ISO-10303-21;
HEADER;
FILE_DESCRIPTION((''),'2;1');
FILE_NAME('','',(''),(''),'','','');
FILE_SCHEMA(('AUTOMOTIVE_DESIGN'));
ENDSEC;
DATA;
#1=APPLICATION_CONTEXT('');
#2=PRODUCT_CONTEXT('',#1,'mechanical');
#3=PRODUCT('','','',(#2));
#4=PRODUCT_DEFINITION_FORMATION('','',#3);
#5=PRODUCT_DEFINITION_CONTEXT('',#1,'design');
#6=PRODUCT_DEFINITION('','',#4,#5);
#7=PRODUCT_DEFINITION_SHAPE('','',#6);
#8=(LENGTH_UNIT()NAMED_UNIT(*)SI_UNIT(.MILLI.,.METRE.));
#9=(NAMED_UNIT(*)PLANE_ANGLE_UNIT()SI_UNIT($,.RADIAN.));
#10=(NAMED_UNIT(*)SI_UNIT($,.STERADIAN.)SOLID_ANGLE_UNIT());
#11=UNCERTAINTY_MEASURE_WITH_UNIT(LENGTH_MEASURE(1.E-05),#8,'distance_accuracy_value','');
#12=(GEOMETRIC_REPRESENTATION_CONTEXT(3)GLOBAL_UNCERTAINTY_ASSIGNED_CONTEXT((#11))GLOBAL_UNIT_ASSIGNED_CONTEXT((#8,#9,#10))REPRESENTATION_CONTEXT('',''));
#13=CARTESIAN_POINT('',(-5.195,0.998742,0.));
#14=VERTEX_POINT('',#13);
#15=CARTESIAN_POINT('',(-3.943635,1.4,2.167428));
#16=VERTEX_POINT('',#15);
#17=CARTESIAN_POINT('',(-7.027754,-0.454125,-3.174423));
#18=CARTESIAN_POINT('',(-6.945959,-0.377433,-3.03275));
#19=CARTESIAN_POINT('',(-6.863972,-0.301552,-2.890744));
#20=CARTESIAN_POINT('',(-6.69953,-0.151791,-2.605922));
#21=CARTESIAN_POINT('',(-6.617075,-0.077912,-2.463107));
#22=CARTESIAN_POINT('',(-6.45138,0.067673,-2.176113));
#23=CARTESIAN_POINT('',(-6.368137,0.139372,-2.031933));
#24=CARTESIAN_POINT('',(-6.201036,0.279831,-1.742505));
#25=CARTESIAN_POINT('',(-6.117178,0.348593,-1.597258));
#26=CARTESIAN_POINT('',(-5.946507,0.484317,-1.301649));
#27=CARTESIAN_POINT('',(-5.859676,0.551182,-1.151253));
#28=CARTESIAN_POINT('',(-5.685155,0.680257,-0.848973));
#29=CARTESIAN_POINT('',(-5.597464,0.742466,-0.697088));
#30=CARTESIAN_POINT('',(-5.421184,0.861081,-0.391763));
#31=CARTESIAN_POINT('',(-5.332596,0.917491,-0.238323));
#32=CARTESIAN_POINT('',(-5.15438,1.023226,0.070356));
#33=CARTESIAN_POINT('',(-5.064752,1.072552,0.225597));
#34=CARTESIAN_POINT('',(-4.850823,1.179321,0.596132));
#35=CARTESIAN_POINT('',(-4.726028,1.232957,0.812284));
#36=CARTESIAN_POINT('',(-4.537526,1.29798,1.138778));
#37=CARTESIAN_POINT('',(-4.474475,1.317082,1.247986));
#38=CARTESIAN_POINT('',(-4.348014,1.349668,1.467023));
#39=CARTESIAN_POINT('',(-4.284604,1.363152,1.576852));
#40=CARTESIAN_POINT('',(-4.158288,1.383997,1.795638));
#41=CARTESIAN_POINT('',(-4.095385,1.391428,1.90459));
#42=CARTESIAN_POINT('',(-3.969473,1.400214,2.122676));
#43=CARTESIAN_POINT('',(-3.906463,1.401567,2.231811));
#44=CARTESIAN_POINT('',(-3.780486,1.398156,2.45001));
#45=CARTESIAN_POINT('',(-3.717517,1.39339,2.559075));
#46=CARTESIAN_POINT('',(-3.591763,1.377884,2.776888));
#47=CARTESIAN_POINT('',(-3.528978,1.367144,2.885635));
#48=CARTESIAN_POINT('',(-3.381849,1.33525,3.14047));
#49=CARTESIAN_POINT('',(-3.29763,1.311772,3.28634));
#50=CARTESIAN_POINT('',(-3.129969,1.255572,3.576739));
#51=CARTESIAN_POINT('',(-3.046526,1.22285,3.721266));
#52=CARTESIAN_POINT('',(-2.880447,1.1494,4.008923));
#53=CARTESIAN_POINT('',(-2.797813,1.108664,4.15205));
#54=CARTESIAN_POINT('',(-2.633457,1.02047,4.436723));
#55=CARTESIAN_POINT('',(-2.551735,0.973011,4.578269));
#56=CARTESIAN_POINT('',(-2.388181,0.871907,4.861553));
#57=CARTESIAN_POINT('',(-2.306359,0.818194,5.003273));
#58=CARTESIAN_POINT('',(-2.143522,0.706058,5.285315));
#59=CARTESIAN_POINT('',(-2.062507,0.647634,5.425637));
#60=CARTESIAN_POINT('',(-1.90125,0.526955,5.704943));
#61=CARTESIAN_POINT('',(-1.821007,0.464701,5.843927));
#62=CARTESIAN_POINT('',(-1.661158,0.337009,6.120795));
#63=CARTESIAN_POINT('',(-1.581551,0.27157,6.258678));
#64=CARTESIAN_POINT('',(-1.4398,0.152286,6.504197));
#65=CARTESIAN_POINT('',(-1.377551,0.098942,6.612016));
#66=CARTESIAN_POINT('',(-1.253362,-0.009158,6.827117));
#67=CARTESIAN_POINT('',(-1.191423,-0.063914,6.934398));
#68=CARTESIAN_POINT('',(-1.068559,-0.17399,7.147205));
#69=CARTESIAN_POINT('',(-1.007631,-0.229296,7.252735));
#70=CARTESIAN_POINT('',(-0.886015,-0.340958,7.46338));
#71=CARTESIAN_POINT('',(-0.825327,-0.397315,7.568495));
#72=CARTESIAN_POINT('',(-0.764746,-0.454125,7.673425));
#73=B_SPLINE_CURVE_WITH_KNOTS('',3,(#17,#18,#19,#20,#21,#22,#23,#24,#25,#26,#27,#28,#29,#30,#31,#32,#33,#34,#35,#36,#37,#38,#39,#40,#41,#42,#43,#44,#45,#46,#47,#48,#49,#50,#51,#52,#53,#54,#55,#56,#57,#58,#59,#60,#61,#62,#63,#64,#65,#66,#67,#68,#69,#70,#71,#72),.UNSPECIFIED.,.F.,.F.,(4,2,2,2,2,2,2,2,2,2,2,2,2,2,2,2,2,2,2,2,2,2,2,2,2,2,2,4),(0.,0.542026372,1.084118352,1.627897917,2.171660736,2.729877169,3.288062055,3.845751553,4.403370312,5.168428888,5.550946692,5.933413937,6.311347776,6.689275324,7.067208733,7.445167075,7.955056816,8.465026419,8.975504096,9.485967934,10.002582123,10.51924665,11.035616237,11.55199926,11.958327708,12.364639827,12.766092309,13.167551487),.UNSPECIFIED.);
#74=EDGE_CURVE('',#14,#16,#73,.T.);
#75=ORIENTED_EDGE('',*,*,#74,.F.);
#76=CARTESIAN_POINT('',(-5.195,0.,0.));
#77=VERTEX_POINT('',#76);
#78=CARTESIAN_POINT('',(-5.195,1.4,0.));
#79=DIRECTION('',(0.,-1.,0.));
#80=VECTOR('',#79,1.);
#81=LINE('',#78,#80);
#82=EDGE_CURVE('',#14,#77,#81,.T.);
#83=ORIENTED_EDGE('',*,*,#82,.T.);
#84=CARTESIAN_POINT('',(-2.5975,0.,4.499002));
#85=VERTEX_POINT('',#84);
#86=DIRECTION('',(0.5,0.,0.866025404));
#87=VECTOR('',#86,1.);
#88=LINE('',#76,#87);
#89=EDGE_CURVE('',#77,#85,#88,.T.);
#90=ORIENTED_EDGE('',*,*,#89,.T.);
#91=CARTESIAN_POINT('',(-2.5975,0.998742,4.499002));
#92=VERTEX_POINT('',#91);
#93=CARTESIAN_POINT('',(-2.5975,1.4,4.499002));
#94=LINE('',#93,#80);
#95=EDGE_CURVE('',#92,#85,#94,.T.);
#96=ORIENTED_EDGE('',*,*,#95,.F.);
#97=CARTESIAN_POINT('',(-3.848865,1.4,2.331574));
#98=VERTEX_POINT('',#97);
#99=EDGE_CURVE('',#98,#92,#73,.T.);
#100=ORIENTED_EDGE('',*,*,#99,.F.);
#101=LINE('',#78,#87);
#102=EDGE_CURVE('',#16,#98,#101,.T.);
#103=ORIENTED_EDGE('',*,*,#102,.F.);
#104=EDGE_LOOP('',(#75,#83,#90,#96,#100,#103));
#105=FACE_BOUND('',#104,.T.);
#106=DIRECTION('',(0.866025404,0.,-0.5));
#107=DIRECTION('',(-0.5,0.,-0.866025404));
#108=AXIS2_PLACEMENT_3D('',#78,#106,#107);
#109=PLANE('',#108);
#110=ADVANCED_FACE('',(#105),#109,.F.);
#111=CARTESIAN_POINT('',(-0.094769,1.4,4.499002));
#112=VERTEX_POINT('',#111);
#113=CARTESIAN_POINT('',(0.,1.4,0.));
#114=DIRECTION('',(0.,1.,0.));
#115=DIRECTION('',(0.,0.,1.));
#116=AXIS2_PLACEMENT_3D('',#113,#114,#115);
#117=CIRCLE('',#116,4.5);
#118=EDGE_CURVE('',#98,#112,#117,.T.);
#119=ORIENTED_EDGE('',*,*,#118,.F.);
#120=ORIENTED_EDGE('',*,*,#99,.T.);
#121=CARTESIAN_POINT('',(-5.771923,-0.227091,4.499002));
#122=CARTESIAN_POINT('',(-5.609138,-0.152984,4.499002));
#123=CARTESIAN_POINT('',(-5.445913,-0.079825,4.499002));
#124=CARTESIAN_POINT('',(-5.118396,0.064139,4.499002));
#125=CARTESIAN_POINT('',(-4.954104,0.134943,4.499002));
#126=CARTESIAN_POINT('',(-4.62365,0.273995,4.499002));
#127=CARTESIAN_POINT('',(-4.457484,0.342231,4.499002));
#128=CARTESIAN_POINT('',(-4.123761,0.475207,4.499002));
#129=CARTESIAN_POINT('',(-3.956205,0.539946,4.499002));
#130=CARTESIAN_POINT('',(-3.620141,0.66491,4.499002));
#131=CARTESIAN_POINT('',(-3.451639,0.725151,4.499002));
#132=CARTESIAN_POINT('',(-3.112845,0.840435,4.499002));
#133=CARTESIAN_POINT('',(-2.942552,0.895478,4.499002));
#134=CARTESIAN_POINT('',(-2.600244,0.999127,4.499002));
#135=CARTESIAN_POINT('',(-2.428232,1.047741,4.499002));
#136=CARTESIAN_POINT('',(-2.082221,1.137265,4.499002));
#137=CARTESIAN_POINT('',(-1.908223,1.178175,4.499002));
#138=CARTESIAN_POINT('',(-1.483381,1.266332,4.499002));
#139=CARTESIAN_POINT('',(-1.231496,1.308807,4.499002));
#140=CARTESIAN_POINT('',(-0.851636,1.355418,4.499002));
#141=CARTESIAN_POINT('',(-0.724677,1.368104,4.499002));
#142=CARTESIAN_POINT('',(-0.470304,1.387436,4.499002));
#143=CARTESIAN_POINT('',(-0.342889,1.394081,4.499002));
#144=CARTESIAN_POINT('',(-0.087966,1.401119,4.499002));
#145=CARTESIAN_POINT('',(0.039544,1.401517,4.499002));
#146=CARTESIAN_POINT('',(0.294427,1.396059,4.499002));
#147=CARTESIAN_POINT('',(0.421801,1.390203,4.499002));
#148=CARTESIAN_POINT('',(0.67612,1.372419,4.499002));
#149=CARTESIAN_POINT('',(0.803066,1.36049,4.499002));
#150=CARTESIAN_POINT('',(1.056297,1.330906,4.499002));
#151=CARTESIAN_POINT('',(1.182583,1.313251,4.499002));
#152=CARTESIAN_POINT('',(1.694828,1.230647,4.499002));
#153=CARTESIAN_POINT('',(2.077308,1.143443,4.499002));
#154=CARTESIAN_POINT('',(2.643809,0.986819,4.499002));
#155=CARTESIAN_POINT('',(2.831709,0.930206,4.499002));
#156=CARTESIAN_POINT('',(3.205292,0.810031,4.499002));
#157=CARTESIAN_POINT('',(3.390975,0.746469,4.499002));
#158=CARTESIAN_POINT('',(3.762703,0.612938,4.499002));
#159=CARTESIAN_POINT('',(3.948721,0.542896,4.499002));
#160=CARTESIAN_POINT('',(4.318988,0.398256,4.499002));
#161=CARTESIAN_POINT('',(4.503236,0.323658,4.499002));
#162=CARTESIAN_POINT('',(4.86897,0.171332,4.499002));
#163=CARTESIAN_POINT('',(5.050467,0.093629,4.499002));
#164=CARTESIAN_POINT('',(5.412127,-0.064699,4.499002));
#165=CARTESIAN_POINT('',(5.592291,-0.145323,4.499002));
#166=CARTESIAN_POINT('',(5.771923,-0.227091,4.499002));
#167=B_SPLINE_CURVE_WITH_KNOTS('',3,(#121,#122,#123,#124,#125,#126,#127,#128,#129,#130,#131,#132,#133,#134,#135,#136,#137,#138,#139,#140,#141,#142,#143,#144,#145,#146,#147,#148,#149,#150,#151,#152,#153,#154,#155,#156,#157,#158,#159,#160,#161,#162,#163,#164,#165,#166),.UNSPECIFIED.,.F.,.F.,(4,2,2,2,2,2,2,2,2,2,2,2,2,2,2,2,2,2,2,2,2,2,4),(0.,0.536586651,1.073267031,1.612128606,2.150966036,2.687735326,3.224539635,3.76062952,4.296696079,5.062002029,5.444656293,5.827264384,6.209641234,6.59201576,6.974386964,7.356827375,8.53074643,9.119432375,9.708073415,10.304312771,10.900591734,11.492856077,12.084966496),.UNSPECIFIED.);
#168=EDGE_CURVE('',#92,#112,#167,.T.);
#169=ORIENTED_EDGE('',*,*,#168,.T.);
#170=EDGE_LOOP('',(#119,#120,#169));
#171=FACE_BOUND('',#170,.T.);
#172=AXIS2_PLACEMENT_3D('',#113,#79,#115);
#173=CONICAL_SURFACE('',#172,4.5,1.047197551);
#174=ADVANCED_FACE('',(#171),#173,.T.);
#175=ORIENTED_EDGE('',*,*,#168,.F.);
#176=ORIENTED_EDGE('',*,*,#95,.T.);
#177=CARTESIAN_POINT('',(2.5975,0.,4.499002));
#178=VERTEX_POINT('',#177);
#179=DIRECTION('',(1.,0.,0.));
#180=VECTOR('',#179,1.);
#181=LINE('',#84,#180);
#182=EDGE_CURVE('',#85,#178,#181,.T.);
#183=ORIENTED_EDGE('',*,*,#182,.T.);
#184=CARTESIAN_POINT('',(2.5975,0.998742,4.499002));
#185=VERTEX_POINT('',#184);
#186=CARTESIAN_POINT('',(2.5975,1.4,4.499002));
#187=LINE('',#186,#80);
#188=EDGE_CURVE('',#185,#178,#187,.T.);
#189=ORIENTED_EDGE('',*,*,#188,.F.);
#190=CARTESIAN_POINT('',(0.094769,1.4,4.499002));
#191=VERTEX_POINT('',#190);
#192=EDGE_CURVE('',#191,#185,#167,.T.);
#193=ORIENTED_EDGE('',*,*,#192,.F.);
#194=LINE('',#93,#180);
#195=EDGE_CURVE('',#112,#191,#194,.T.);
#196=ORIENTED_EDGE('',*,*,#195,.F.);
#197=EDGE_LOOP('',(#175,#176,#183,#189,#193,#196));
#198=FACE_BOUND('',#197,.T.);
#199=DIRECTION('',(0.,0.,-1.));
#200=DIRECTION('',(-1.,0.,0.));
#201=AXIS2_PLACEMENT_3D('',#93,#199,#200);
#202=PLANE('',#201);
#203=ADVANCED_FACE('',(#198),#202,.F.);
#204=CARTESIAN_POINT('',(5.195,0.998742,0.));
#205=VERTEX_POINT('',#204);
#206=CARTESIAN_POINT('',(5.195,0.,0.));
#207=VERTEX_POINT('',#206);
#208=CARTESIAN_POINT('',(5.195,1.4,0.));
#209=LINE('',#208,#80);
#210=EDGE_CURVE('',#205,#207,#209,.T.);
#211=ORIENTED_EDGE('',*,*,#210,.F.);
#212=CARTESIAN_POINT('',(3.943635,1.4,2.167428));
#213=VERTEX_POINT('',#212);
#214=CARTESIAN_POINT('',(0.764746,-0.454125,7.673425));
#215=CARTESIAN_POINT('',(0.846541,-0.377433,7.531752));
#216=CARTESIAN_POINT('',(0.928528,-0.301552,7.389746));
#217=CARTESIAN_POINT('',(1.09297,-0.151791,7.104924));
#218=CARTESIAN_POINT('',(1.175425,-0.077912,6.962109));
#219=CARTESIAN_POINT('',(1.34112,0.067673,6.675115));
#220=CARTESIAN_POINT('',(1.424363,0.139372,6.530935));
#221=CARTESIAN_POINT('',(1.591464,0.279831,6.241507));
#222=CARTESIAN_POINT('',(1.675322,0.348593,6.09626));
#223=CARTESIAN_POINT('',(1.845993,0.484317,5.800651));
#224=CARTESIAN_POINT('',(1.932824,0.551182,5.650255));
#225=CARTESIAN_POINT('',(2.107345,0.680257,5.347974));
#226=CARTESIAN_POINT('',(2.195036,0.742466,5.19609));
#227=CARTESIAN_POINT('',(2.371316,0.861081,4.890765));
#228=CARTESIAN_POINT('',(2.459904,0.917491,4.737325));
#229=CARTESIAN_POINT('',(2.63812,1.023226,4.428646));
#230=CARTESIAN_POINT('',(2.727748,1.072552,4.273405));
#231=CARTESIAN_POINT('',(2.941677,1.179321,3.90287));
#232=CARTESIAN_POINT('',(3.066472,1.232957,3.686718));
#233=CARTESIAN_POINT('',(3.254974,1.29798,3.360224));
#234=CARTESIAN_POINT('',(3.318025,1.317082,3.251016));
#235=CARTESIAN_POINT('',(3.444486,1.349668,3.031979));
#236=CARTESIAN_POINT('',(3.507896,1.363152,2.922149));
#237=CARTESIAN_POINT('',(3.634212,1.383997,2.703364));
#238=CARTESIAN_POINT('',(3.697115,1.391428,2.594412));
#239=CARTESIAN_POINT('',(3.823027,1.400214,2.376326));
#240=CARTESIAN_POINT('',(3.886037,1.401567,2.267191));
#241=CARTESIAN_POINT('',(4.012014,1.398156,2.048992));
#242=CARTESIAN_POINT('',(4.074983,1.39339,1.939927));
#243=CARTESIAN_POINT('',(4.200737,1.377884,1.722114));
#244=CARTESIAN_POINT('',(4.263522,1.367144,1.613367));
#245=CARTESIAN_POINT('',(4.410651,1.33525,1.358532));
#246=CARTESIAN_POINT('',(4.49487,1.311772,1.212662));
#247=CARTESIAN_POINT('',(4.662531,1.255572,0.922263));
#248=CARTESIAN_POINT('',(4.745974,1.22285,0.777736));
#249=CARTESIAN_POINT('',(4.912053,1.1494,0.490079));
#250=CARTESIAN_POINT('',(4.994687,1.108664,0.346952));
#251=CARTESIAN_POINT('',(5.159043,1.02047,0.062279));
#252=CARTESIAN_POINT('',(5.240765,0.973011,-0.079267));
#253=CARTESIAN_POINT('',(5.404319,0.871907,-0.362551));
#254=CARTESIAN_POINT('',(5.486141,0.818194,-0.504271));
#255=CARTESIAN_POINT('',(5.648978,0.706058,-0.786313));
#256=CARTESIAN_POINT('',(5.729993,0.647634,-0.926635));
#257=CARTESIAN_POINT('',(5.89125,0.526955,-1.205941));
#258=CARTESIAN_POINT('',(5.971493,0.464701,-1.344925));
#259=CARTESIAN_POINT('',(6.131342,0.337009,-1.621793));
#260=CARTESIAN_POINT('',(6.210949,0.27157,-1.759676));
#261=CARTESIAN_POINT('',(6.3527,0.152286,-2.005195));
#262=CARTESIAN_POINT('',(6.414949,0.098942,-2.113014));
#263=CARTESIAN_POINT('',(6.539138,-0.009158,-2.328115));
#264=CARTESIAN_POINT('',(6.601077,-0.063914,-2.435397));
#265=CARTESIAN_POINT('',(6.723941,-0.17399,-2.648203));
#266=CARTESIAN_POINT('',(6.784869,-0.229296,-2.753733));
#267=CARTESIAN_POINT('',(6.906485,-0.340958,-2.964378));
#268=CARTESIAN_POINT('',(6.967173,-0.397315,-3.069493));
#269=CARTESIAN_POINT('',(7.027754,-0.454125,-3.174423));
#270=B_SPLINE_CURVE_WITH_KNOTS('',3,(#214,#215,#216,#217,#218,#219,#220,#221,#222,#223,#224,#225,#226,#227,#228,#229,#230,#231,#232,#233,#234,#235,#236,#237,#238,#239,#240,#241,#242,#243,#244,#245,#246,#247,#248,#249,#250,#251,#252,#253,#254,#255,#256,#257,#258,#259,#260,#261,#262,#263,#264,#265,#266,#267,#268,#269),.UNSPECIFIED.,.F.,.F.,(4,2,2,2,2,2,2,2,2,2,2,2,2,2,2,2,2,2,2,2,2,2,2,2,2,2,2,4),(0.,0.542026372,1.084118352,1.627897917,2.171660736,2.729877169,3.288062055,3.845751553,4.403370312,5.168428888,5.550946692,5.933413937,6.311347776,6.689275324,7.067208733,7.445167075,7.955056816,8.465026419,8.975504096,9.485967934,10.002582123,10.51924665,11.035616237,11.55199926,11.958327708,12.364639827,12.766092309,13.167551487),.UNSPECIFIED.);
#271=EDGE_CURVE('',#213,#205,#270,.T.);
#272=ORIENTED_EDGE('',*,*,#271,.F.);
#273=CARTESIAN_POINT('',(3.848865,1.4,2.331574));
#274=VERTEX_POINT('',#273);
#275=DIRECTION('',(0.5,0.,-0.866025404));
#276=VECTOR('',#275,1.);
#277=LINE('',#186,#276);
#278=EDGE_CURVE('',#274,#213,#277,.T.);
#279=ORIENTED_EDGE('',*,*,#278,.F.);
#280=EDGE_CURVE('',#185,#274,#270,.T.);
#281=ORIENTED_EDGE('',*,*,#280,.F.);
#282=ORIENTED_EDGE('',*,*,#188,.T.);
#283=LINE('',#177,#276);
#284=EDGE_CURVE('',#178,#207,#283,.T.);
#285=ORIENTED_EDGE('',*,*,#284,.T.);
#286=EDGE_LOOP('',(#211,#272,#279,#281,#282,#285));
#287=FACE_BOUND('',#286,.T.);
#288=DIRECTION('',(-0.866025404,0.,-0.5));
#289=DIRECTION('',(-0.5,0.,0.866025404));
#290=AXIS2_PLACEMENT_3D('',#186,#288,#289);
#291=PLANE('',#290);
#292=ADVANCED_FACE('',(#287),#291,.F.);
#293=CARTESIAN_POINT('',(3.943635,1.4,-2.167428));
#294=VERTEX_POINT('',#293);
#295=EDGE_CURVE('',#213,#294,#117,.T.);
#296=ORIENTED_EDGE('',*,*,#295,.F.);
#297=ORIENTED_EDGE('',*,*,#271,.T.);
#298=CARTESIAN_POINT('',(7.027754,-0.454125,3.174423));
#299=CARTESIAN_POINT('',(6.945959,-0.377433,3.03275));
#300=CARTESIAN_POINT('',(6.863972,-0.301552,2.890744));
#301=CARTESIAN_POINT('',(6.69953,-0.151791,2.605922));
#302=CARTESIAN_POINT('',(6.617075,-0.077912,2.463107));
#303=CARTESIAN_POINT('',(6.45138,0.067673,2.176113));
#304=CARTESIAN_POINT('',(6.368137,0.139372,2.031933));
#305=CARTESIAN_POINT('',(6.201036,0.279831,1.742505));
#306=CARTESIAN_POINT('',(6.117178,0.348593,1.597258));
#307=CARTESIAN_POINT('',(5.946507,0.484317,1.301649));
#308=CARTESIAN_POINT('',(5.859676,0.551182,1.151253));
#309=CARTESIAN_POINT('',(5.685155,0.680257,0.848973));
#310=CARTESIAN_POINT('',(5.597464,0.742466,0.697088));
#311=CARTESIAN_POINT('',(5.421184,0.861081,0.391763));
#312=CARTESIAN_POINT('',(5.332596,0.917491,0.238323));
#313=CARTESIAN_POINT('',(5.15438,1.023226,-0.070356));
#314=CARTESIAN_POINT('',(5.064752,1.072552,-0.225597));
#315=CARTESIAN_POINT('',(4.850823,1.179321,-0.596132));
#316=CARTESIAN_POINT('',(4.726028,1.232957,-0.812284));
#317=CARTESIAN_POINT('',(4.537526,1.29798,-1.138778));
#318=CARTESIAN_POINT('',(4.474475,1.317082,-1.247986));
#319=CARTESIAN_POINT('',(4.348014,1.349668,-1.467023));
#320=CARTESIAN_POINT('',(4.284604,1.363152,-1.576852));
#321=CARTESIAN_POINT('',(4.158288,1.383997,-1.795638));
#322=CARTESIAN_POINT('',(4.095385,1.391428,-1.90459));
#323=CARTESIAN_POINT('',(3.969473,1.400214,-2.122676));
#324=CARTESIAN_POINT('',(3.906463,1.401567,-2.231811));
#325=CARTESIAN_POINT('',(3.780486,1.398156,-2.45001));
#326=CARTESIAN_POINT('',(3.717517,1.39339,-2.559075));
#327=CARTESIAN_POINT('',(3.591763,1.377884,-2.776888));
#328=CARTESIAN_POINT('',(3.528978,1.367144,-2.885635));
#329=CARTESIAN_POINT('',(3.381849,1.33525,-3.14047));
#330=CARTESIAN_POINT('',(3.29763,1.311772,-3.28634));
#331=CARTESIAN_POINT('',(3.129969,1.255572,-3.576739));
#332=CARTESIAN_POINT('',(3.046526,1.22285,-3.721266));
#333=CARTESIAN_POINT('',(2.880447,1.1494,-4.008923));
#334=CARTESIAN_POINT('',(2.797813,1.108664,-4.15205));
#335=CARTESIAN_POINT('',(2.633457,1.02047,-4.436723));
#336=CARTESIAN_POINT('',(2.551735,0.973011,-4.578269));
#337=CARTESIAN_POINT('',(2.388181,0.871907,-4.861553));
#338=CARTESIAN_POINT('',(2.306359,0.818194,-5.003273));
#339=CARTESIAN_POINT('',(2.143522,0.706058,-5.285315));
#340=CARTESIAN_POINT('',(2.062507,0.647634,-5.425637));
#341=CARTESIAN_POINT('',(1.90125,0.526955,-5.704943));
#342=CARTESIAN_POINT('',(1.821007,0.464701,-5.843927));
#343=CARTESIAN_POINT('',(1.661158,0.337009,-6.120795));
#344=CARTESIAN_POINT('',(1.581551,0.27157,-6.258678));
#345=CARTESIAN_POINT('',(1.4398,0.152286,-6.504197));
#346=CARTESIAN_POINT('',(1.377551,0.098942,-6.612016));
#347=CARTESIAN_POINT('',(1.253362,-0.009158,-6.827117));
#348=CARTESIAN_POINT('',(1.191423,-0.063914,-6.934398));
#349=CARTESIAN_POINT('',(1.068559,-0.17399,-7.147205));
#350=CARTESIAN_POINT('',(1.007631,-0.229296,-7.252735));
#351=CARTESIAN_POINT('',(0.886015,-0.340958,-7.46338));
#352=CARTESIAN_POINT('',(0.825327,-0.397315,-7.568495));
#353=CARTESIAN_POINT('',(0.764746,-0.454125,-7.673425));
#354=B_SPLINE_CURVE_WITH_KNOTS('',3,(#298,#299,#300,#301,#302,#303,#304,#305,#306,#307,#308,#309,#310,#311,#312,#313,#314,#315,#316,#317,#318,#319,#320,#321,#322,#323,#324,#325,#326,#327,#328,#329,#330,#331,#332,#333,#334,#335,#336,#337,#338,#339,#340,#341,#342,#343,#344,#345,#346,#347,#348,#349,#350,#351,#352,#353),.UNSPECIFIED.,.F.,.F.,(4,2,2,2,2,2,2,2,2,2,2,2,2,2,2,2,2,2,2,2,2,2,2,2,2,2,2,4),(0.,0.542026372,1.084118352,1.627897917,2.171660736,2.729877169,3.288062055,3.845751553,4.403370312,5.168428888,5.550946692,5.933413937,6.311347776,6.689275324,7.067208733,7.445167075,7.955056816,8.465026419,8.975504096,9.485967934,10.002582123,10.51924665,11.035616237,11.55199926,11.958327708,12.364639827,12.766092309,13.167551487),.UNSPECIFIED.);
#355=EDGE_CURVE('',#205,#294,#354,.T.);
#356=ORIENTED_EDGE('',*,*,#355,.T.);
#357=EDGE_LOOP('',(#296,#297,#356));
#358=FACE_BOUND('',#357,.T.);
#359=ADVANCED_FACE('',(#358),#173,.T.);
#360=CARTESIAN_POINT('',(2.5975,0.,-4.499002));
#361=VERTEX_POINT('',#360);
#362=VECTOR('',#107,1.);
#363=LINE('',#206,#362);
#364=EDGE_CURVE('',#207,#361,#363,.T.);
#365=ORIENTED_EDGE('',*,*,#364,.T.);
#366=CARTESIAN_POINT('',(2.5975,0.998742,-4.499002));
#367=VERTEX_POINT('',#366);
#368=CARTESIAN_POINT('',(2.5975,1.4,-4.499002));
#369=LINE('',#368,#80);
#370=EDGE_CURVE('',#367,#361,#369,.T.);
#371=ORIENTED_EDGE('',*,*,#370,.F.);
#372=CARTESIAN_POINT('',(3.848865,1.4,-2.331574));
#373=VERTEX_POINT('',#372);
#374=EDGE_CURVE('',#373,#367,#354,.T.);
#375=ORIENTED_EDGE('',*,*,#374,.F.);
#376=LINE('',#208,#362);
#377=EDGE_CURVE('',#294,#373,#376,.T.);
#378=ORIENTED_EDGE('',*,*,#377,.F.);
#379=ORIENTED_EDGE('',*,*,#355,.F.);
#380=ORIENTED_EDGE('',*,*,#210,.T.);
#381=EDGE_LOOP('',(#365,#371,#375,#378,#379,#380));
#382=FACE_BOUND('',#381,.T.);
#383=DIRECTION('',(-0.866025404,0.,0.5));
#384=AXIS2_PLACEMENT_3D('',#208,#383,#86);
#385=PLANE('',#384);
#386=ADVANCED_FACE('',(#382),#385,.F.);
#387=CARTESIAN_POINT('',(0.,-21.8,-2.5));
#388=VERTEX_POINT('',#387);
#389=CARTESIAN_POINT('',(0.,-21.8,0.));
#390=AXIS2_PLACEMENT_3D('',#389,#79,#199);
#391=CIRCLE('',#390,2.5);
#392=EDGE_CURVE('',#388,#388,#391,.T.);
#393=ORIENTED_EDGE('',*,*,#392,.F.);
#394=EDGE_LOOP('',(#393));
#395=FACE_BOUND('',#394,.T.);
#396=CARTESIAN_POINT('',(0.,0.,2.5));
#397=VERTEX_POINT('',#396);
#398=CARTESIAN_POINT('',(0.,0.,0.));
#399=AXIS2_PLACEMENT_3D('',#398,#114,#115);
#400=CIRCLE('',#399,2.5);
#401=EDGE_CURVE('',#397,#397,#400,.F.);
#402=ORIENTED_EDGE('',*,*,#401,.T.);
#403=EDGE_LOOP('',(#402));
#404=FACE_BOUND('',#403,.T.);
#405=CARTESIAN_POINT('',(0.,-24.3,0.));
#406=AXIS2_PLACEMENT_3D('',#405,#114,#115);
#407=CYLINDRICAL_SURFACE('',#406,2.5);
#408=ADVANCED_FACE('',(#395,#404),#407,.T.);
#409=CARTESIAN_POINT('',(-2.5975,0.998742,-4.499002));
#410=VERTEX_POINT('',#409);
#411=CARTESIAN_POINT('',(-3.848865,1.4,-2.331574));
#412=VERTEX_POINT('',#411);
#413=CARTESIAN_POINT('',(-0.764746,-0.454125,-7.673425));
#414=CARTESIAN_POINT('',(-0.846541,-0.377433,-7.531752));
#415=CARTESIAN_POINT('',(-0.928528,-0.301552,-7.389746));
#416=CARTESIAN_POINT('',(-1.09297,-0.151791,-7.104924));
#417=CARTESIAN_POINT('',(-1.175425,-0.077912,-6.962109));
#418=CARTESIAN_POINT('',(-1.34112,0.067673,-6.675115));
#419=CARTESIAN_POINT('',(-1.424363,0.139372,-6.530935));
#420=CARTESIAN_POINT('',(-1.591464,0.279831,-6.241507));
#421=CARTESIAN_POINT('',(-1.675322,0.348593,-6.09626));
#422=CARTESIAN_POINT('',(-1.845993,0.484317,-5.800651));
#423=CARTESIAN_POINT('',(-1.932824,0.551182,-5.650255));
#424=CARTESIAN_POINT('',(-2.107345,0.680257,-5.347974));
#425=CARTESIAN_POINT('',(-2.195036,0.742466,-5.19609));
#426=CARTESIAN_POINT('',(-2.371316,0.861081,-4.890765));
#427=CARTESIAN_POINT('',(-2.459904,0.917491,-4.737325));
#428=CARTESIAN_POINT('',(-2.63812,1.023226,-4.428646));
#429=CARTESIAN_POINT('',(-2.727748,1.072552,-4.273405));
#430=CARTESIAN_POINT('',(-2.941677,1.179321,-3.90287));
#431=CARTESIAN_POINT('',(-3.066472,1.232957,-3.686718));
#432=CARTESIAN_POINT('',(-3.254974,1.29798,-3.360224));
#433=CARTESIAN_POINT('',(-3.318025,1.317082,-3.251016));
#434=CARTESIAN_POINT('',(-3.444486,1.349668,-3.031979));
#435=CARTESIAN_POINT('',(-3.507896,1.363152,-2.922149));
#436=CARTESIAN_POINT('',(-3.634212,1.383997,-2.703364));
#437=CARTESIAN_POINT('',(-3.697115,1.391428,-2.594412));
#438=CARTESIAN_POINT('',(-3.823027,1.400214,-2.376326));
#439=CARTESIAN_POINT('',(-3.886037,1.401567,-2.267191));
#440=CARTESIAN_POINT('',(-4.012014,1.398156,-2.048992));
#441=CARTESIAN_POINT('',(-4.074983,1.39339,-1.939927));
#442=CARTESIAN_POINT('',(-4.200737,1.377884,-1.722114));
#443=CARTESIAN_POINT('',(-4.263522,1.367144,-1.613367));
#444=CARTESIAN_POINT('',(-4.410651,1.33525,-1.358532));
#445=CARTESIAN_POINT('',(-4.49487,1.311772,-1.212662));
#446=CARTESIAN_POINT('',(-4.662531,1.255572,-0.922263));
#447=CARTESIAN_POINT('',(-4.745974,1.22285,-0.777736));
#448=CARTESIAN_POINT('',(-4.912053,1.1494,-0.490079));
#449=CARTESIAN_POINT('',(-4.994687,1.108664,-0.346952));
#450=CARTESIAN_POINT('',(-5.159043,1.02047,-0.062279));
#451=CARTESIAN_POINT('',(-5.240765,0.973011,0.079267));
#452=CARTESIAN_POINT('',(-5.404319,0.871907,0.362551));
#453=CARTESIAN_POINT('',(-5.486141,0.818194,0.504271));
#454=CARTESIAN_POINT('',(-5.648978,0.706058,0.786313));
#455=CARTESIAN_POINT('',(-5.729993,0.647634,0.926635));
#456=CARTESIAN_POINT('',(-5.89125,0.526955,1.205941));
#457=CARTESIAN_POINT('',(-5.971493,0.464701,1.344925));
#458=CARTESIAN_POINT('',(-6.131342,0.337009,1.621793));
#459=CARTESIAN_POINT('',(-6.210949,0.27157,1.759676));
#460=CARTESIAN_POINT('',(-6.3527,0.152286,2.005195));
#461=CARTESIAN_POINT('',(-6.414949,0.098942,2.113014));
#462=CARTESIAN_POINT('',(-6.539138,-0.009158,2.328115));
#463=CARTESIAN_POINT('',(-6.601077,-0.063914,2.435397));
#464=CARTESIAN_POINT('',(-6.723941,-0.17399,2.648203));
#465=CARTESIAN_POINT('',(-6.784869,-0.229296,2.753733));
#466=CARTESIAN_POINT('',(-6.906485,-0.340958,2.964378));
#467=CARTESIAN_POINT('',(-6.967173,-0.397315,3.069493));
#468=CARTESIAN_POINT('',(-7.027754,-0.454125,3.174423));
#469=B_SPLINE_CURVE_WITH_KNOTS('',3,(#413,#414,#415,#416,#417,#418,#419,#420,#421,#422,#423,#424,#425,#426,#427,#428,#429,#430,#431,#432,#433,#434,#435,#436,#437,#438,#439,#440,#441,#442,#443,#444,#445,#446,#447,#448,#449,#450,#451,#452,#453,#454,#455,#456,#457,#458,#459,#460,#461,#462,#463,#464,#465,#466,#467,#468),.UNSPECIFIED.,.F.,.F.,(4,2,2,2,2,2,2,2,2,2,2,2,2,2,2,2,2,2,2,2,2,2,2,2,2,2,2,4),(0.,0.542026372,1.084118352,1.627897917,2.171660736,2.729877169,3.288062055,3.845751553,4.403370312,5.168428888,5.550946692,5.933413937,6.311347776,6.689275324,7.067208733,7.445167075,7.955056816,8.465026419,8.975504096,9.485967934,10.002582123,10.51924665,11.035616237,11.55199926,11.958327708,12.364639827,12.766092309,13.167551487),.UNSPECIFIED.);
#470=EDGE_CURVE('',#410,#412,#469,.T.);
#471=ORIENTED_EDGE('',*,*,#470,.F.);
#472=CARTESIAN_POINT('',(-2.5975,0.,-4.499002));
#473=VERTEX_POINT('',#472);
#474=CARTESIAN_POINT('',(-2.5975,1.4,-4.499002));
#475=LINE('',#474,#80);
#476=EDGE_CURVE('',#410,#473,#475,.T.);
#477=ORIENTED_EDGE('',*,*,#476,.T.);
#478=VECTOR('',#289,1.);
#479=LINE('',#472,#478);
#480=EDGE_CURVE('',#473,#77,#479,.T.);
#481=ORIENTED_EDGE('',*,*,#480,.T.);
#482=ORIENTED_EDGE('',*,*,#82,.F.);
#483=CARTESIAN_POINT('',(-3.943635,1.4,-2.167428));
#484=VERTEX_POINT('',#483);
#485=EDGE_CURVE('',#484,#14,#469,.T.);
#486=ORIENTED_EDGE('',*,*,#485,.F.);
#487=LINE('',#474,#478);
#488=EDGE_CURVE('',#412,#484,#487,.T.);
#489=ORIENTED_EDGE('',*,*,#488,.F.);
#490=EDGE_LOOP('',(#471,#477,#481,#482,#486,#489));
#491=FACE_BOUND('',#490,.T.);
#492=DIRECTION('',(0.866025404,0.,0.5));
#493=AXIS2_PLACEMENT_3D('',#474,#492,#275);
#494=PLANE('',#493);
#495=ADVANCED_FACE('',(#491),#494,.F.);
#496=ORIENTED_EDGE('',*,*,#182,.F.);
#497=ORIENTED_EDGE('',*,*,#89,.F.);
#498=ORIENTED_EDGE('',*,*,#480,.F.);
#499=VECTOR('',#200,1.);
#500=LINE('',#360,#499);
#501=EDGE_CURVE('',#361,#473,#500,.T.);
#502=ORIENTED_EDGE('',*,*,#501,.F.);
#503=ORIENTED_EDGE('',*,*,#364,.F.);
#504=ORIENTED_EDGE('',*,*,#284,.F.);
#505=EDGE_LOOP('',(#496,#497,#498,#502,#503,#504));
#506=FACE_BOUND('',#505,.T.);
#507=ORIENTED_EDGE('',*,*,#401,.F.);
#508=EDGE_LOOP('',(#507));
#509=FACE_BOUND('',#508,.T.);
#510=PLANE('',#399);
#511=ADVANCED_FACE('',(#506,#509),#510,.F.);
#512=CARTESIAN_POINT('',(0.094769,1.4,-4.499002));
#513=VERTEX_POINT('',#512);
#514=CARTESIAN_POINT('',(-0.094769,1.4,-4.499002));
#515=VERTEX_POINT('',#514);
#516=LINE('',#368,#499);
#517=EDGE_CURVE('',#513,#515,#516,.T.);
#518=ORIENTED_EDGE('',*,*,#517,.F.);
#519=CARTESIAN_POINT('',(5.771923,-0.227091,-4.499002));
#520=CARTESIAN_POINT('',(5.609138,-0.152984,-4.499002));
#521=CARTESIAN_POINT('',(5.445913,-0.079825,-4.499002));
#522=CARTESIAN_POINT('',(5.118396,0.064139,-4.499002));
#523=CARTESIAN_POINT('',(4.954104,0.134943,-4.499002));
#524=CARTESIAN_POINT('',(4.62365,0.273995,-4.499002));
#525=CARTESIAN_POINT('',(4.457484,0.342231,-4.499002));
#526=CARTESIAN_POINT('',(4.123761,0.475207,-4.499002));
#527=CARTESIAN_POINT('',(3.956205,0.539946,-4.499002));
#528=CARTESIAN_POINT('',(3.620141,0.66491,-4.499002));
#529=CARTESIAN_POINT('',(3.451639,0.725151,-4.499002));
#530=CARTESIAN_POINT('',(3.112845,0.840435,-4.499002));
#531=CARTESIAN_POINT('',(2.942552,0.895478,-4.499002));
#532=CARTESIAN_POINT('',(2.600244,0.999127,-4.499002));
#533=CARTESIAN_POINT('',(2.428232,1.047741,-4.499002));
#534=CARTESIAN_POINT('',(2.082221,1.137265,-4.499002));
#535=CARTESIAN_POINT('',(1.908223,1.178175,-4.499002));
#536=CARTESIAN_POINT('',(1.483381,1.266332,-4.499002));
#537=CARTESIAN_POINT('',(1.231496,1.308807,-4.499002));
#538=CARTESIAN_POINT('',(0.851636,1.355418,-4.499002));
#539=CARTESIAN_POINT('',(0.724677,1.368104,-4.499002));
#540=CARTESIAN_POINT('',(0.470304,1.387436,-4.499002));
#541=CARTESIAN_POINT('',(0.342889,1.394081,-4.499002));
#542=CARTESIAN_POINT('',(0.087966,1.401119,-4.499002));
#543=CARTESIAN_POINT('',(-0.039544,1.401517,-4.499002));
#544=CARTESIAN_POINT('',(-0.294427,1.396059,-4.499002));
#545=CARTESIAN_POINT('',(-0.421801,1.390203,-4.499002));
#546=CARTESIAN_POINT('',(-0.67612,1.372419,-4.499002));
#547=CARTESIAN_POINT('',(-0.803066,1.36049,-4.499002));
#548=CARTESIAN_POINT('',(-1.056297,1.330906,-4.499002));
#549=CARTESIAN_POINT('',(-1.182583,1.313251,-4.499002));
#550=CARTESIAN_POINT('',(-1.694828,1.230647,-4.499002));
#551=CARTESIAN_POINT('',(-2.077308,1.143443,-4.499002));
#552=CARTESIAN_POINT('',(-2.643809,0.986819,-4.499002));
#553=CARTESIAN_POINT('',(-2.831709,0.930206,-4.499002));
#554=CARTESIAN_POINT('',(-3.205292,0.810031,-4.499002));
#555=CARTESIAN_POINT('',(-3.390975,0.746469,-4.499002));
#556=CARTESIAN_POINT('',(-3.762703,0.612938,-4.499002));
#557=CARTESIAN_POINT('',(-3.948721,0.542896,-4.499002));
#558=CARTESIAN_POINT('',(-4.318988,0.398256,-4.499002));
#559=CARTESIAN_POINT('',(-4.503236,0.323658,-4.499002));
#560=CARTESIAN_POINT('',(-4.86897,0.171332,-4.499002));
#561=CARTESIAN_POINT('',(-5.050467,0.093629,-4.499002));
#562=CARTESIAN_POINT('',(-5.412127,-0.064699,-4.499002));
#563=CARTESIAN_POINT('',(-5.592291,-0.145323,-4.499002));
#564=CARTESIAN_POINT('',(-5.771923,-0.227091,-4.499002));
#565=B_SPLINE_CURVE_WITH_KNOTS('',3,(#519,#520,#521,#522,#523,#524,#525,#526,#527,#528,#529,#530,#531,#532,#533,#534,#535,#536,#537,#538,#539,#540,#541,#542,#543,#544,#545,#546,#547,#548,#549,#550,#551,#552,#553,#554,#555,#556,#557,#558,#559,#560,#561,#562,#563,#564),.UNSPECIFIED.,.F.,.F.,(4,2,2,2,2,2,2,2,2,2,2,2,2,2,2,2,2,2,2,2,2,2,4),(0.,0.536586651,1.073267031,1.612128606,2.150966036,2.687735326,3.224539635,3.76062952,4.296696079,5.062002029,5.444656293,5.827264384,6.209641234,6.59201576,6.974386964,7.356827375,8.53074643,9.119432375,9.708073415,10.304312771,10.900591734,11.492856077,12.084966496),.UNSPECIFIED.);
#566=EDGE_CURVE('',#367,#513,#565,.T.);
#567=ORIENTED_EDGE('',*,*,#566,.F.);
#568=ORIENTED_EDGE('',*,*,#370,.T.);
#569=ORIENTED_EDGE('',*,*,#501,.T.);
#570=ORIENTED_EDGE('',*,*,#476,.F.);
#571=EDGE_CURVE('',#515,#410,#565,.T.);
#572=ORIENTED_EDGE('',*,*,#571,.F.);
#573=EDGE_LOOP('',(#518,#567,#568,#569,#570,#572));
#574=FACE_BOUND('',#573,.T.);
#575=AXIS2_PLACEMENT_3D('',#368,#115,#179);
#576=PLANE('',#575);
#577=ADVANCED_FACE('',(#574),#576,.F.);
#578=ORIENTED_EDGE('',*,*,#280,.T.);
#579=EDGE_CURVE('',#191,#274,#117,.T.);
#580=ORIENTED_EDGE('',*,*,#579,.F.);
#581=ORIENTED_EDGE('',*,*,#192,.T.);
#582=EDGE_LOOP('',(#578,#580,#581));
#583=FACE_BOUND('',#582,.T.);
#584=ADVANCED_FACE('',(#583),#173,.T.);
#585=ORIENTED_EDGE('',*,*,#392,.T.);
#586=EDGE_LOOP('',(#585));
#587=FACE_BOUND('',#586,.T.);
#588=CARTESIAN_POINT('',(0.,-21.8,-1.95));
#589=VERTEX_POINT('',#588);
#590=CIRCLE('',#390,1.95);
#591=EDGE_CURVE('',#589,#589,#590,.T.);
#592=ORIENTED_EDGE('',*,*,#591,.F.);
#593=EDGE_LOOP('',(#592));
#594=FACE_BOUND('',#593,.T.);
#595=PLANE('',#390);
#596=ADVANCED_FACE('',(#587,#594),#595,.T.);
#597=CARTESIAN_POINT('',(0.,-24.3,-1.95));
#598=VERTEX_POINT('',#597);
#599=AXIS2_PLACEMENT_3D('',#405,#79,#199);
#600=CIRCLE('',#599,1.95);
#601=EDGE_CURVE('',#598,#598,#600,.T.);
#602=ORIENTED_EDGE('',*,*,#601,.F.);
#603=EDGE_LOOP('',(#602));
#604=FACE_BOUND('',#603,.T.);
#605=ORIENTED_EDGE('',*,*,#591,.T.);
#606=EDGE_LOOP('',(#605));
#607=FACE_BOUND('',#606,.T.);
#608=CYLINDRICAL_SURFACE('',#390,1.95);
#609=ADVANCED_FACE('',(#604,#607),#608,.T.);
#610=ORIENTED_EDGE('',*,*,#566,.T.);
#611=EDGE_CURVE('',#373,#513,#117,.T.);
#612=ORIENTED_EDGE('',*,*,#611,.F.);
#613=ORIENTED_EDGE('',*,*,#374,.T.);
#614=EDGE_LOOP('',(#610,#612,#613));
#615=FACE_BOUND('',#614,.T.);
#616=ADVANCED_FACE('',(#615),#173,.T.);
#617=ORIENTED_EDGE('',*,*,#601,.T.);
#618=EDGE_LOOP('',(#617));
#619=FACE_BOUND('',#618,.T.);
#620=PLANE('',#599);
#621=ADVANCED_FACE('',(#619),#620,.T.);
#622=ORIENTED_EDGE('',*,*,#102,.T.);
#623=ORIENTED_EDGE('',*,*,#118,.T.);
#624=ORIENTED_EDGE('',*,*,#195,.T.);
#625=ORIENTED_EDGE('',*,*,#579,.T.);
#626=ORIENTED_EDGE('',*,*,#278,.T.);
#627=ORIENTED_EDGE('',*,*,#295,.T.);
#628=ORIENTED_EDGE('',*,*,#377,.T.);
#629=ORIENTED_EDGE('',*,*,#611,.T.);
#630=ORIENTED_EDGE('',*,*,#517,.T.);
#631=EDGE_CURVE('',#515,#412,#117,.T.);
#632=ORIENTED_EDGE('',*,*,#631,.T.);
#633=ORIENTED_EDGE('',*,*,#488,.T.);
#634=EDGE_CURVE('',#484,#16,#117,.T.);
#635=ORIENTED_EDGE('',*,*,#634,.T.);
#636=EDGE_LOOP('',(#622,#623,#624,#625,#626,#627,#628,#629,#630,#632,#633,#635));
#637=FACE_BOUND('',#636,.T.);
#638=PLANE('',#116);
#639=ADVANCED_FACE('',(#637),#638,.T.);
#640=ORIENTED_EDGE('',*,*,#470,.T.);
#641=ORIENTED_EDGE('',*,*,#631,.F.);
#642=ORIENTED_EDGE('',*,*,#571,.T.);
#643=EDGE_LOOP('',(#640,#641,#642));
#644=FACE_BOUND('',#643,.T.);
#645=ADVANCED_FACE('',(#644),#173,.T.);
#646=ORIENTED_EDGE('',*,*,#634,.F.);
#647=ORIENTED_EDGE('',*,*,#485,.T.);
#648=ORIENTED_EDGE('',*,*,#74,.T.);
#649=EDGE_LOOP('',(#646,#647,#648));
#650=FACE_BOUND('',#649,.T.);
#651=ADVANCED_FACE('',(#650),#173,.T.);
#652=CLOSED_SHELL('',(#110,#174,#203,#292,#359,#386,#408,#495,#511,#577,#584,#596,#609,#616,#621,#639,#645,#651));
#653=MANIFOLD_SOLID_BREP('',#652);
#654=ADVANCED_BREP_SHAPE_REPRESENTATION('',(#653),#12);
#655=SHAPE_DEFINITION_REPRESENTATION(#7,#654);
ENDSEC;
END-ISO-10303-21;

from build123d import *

# Parameters (mm, degrees)
BOSS_EXTRUDE1_DEPTH = 1.4
SKETCH2_OUTSIDE_W   = 18.618
SKETCH2_OUTSIDE_H   = 17.226
SKETCH2_OUTSIDE_R   = 4.5
CUT_EXTRUDE1_DEPTH  = 1
CUT_EXTRUDE1_TAPER  = 60
SKETCH3_R           = 2.5
BOSS_EXTRUDE2_DEPTH = 24.3
SKETCH4_OUTSIDE_W   = 18.218
SKETCH4_OUTSIDE_H   = 16.826
SKETCH4_OUTSIDE_R   = 1.95
CUT_EXTRUDE2_DEPTH  = 2.5


with BuildPart() as part:
    # Sketch1 → Boss-Extrude1 (new body)
    with BuildSketch(Plane(origin=(0, 0, 0), x_dir=(1, 0, 0), z_dir=(0, 1, 0))):
        Polygon((5.195, 0), (2.5975, 4.499001973), (-2.5975, 4.499001973), (-5.195, 0), (-2.5975, -4.499001973), (2.5975, -4.499001973), align=None)
    extrude(amount=BOSS_EXTRUDE1_DEPTH)

    # Sketch2 outside → Cut-Extrude1 (cut)
    with BuildSketch(Plane(origin=(0, 1.4, 0), x_dir=(1, 0, 0), z_dir=(0, 1, 0))):
        Rectangle(SKETCH2_OUTSIDE_W, SKETCH2_OUTSIDE_H)
        Circle(SKETCH2_OUTSIDE_R, mode=Mode.SUBTRACT)
    extrude(amount=-CUT_EXTRUDE1_DEPTH, taper=CUT_EXTRUDE1_TAPER, mode=Mode.SUBTRACT)

    # Sketch3 → Boss-Extrude2 (add)
    with BuildSketch(Plane.XZ):
        Circle(SKETCH3_R)
    extrude(amount=BOSS_EXTRUDE2_DEPTH)

    # Sketch4 outside → Cut-Extrude2 (cut)
    with BuildSketch(Plane.XZ.offset(24.3)):
        Rectangle(SKETCH4_OUTSIDE_W, SKETCH4_OUTSIDE_H)
        Circle(SKETCH4_OUTSIDE_R, mode=Mode.SUBTRACT)
    extrude(amount=-CUT_EXTRUDE2_DEPTH, mode=Mode.SUBTRACT)


solid = part.part
